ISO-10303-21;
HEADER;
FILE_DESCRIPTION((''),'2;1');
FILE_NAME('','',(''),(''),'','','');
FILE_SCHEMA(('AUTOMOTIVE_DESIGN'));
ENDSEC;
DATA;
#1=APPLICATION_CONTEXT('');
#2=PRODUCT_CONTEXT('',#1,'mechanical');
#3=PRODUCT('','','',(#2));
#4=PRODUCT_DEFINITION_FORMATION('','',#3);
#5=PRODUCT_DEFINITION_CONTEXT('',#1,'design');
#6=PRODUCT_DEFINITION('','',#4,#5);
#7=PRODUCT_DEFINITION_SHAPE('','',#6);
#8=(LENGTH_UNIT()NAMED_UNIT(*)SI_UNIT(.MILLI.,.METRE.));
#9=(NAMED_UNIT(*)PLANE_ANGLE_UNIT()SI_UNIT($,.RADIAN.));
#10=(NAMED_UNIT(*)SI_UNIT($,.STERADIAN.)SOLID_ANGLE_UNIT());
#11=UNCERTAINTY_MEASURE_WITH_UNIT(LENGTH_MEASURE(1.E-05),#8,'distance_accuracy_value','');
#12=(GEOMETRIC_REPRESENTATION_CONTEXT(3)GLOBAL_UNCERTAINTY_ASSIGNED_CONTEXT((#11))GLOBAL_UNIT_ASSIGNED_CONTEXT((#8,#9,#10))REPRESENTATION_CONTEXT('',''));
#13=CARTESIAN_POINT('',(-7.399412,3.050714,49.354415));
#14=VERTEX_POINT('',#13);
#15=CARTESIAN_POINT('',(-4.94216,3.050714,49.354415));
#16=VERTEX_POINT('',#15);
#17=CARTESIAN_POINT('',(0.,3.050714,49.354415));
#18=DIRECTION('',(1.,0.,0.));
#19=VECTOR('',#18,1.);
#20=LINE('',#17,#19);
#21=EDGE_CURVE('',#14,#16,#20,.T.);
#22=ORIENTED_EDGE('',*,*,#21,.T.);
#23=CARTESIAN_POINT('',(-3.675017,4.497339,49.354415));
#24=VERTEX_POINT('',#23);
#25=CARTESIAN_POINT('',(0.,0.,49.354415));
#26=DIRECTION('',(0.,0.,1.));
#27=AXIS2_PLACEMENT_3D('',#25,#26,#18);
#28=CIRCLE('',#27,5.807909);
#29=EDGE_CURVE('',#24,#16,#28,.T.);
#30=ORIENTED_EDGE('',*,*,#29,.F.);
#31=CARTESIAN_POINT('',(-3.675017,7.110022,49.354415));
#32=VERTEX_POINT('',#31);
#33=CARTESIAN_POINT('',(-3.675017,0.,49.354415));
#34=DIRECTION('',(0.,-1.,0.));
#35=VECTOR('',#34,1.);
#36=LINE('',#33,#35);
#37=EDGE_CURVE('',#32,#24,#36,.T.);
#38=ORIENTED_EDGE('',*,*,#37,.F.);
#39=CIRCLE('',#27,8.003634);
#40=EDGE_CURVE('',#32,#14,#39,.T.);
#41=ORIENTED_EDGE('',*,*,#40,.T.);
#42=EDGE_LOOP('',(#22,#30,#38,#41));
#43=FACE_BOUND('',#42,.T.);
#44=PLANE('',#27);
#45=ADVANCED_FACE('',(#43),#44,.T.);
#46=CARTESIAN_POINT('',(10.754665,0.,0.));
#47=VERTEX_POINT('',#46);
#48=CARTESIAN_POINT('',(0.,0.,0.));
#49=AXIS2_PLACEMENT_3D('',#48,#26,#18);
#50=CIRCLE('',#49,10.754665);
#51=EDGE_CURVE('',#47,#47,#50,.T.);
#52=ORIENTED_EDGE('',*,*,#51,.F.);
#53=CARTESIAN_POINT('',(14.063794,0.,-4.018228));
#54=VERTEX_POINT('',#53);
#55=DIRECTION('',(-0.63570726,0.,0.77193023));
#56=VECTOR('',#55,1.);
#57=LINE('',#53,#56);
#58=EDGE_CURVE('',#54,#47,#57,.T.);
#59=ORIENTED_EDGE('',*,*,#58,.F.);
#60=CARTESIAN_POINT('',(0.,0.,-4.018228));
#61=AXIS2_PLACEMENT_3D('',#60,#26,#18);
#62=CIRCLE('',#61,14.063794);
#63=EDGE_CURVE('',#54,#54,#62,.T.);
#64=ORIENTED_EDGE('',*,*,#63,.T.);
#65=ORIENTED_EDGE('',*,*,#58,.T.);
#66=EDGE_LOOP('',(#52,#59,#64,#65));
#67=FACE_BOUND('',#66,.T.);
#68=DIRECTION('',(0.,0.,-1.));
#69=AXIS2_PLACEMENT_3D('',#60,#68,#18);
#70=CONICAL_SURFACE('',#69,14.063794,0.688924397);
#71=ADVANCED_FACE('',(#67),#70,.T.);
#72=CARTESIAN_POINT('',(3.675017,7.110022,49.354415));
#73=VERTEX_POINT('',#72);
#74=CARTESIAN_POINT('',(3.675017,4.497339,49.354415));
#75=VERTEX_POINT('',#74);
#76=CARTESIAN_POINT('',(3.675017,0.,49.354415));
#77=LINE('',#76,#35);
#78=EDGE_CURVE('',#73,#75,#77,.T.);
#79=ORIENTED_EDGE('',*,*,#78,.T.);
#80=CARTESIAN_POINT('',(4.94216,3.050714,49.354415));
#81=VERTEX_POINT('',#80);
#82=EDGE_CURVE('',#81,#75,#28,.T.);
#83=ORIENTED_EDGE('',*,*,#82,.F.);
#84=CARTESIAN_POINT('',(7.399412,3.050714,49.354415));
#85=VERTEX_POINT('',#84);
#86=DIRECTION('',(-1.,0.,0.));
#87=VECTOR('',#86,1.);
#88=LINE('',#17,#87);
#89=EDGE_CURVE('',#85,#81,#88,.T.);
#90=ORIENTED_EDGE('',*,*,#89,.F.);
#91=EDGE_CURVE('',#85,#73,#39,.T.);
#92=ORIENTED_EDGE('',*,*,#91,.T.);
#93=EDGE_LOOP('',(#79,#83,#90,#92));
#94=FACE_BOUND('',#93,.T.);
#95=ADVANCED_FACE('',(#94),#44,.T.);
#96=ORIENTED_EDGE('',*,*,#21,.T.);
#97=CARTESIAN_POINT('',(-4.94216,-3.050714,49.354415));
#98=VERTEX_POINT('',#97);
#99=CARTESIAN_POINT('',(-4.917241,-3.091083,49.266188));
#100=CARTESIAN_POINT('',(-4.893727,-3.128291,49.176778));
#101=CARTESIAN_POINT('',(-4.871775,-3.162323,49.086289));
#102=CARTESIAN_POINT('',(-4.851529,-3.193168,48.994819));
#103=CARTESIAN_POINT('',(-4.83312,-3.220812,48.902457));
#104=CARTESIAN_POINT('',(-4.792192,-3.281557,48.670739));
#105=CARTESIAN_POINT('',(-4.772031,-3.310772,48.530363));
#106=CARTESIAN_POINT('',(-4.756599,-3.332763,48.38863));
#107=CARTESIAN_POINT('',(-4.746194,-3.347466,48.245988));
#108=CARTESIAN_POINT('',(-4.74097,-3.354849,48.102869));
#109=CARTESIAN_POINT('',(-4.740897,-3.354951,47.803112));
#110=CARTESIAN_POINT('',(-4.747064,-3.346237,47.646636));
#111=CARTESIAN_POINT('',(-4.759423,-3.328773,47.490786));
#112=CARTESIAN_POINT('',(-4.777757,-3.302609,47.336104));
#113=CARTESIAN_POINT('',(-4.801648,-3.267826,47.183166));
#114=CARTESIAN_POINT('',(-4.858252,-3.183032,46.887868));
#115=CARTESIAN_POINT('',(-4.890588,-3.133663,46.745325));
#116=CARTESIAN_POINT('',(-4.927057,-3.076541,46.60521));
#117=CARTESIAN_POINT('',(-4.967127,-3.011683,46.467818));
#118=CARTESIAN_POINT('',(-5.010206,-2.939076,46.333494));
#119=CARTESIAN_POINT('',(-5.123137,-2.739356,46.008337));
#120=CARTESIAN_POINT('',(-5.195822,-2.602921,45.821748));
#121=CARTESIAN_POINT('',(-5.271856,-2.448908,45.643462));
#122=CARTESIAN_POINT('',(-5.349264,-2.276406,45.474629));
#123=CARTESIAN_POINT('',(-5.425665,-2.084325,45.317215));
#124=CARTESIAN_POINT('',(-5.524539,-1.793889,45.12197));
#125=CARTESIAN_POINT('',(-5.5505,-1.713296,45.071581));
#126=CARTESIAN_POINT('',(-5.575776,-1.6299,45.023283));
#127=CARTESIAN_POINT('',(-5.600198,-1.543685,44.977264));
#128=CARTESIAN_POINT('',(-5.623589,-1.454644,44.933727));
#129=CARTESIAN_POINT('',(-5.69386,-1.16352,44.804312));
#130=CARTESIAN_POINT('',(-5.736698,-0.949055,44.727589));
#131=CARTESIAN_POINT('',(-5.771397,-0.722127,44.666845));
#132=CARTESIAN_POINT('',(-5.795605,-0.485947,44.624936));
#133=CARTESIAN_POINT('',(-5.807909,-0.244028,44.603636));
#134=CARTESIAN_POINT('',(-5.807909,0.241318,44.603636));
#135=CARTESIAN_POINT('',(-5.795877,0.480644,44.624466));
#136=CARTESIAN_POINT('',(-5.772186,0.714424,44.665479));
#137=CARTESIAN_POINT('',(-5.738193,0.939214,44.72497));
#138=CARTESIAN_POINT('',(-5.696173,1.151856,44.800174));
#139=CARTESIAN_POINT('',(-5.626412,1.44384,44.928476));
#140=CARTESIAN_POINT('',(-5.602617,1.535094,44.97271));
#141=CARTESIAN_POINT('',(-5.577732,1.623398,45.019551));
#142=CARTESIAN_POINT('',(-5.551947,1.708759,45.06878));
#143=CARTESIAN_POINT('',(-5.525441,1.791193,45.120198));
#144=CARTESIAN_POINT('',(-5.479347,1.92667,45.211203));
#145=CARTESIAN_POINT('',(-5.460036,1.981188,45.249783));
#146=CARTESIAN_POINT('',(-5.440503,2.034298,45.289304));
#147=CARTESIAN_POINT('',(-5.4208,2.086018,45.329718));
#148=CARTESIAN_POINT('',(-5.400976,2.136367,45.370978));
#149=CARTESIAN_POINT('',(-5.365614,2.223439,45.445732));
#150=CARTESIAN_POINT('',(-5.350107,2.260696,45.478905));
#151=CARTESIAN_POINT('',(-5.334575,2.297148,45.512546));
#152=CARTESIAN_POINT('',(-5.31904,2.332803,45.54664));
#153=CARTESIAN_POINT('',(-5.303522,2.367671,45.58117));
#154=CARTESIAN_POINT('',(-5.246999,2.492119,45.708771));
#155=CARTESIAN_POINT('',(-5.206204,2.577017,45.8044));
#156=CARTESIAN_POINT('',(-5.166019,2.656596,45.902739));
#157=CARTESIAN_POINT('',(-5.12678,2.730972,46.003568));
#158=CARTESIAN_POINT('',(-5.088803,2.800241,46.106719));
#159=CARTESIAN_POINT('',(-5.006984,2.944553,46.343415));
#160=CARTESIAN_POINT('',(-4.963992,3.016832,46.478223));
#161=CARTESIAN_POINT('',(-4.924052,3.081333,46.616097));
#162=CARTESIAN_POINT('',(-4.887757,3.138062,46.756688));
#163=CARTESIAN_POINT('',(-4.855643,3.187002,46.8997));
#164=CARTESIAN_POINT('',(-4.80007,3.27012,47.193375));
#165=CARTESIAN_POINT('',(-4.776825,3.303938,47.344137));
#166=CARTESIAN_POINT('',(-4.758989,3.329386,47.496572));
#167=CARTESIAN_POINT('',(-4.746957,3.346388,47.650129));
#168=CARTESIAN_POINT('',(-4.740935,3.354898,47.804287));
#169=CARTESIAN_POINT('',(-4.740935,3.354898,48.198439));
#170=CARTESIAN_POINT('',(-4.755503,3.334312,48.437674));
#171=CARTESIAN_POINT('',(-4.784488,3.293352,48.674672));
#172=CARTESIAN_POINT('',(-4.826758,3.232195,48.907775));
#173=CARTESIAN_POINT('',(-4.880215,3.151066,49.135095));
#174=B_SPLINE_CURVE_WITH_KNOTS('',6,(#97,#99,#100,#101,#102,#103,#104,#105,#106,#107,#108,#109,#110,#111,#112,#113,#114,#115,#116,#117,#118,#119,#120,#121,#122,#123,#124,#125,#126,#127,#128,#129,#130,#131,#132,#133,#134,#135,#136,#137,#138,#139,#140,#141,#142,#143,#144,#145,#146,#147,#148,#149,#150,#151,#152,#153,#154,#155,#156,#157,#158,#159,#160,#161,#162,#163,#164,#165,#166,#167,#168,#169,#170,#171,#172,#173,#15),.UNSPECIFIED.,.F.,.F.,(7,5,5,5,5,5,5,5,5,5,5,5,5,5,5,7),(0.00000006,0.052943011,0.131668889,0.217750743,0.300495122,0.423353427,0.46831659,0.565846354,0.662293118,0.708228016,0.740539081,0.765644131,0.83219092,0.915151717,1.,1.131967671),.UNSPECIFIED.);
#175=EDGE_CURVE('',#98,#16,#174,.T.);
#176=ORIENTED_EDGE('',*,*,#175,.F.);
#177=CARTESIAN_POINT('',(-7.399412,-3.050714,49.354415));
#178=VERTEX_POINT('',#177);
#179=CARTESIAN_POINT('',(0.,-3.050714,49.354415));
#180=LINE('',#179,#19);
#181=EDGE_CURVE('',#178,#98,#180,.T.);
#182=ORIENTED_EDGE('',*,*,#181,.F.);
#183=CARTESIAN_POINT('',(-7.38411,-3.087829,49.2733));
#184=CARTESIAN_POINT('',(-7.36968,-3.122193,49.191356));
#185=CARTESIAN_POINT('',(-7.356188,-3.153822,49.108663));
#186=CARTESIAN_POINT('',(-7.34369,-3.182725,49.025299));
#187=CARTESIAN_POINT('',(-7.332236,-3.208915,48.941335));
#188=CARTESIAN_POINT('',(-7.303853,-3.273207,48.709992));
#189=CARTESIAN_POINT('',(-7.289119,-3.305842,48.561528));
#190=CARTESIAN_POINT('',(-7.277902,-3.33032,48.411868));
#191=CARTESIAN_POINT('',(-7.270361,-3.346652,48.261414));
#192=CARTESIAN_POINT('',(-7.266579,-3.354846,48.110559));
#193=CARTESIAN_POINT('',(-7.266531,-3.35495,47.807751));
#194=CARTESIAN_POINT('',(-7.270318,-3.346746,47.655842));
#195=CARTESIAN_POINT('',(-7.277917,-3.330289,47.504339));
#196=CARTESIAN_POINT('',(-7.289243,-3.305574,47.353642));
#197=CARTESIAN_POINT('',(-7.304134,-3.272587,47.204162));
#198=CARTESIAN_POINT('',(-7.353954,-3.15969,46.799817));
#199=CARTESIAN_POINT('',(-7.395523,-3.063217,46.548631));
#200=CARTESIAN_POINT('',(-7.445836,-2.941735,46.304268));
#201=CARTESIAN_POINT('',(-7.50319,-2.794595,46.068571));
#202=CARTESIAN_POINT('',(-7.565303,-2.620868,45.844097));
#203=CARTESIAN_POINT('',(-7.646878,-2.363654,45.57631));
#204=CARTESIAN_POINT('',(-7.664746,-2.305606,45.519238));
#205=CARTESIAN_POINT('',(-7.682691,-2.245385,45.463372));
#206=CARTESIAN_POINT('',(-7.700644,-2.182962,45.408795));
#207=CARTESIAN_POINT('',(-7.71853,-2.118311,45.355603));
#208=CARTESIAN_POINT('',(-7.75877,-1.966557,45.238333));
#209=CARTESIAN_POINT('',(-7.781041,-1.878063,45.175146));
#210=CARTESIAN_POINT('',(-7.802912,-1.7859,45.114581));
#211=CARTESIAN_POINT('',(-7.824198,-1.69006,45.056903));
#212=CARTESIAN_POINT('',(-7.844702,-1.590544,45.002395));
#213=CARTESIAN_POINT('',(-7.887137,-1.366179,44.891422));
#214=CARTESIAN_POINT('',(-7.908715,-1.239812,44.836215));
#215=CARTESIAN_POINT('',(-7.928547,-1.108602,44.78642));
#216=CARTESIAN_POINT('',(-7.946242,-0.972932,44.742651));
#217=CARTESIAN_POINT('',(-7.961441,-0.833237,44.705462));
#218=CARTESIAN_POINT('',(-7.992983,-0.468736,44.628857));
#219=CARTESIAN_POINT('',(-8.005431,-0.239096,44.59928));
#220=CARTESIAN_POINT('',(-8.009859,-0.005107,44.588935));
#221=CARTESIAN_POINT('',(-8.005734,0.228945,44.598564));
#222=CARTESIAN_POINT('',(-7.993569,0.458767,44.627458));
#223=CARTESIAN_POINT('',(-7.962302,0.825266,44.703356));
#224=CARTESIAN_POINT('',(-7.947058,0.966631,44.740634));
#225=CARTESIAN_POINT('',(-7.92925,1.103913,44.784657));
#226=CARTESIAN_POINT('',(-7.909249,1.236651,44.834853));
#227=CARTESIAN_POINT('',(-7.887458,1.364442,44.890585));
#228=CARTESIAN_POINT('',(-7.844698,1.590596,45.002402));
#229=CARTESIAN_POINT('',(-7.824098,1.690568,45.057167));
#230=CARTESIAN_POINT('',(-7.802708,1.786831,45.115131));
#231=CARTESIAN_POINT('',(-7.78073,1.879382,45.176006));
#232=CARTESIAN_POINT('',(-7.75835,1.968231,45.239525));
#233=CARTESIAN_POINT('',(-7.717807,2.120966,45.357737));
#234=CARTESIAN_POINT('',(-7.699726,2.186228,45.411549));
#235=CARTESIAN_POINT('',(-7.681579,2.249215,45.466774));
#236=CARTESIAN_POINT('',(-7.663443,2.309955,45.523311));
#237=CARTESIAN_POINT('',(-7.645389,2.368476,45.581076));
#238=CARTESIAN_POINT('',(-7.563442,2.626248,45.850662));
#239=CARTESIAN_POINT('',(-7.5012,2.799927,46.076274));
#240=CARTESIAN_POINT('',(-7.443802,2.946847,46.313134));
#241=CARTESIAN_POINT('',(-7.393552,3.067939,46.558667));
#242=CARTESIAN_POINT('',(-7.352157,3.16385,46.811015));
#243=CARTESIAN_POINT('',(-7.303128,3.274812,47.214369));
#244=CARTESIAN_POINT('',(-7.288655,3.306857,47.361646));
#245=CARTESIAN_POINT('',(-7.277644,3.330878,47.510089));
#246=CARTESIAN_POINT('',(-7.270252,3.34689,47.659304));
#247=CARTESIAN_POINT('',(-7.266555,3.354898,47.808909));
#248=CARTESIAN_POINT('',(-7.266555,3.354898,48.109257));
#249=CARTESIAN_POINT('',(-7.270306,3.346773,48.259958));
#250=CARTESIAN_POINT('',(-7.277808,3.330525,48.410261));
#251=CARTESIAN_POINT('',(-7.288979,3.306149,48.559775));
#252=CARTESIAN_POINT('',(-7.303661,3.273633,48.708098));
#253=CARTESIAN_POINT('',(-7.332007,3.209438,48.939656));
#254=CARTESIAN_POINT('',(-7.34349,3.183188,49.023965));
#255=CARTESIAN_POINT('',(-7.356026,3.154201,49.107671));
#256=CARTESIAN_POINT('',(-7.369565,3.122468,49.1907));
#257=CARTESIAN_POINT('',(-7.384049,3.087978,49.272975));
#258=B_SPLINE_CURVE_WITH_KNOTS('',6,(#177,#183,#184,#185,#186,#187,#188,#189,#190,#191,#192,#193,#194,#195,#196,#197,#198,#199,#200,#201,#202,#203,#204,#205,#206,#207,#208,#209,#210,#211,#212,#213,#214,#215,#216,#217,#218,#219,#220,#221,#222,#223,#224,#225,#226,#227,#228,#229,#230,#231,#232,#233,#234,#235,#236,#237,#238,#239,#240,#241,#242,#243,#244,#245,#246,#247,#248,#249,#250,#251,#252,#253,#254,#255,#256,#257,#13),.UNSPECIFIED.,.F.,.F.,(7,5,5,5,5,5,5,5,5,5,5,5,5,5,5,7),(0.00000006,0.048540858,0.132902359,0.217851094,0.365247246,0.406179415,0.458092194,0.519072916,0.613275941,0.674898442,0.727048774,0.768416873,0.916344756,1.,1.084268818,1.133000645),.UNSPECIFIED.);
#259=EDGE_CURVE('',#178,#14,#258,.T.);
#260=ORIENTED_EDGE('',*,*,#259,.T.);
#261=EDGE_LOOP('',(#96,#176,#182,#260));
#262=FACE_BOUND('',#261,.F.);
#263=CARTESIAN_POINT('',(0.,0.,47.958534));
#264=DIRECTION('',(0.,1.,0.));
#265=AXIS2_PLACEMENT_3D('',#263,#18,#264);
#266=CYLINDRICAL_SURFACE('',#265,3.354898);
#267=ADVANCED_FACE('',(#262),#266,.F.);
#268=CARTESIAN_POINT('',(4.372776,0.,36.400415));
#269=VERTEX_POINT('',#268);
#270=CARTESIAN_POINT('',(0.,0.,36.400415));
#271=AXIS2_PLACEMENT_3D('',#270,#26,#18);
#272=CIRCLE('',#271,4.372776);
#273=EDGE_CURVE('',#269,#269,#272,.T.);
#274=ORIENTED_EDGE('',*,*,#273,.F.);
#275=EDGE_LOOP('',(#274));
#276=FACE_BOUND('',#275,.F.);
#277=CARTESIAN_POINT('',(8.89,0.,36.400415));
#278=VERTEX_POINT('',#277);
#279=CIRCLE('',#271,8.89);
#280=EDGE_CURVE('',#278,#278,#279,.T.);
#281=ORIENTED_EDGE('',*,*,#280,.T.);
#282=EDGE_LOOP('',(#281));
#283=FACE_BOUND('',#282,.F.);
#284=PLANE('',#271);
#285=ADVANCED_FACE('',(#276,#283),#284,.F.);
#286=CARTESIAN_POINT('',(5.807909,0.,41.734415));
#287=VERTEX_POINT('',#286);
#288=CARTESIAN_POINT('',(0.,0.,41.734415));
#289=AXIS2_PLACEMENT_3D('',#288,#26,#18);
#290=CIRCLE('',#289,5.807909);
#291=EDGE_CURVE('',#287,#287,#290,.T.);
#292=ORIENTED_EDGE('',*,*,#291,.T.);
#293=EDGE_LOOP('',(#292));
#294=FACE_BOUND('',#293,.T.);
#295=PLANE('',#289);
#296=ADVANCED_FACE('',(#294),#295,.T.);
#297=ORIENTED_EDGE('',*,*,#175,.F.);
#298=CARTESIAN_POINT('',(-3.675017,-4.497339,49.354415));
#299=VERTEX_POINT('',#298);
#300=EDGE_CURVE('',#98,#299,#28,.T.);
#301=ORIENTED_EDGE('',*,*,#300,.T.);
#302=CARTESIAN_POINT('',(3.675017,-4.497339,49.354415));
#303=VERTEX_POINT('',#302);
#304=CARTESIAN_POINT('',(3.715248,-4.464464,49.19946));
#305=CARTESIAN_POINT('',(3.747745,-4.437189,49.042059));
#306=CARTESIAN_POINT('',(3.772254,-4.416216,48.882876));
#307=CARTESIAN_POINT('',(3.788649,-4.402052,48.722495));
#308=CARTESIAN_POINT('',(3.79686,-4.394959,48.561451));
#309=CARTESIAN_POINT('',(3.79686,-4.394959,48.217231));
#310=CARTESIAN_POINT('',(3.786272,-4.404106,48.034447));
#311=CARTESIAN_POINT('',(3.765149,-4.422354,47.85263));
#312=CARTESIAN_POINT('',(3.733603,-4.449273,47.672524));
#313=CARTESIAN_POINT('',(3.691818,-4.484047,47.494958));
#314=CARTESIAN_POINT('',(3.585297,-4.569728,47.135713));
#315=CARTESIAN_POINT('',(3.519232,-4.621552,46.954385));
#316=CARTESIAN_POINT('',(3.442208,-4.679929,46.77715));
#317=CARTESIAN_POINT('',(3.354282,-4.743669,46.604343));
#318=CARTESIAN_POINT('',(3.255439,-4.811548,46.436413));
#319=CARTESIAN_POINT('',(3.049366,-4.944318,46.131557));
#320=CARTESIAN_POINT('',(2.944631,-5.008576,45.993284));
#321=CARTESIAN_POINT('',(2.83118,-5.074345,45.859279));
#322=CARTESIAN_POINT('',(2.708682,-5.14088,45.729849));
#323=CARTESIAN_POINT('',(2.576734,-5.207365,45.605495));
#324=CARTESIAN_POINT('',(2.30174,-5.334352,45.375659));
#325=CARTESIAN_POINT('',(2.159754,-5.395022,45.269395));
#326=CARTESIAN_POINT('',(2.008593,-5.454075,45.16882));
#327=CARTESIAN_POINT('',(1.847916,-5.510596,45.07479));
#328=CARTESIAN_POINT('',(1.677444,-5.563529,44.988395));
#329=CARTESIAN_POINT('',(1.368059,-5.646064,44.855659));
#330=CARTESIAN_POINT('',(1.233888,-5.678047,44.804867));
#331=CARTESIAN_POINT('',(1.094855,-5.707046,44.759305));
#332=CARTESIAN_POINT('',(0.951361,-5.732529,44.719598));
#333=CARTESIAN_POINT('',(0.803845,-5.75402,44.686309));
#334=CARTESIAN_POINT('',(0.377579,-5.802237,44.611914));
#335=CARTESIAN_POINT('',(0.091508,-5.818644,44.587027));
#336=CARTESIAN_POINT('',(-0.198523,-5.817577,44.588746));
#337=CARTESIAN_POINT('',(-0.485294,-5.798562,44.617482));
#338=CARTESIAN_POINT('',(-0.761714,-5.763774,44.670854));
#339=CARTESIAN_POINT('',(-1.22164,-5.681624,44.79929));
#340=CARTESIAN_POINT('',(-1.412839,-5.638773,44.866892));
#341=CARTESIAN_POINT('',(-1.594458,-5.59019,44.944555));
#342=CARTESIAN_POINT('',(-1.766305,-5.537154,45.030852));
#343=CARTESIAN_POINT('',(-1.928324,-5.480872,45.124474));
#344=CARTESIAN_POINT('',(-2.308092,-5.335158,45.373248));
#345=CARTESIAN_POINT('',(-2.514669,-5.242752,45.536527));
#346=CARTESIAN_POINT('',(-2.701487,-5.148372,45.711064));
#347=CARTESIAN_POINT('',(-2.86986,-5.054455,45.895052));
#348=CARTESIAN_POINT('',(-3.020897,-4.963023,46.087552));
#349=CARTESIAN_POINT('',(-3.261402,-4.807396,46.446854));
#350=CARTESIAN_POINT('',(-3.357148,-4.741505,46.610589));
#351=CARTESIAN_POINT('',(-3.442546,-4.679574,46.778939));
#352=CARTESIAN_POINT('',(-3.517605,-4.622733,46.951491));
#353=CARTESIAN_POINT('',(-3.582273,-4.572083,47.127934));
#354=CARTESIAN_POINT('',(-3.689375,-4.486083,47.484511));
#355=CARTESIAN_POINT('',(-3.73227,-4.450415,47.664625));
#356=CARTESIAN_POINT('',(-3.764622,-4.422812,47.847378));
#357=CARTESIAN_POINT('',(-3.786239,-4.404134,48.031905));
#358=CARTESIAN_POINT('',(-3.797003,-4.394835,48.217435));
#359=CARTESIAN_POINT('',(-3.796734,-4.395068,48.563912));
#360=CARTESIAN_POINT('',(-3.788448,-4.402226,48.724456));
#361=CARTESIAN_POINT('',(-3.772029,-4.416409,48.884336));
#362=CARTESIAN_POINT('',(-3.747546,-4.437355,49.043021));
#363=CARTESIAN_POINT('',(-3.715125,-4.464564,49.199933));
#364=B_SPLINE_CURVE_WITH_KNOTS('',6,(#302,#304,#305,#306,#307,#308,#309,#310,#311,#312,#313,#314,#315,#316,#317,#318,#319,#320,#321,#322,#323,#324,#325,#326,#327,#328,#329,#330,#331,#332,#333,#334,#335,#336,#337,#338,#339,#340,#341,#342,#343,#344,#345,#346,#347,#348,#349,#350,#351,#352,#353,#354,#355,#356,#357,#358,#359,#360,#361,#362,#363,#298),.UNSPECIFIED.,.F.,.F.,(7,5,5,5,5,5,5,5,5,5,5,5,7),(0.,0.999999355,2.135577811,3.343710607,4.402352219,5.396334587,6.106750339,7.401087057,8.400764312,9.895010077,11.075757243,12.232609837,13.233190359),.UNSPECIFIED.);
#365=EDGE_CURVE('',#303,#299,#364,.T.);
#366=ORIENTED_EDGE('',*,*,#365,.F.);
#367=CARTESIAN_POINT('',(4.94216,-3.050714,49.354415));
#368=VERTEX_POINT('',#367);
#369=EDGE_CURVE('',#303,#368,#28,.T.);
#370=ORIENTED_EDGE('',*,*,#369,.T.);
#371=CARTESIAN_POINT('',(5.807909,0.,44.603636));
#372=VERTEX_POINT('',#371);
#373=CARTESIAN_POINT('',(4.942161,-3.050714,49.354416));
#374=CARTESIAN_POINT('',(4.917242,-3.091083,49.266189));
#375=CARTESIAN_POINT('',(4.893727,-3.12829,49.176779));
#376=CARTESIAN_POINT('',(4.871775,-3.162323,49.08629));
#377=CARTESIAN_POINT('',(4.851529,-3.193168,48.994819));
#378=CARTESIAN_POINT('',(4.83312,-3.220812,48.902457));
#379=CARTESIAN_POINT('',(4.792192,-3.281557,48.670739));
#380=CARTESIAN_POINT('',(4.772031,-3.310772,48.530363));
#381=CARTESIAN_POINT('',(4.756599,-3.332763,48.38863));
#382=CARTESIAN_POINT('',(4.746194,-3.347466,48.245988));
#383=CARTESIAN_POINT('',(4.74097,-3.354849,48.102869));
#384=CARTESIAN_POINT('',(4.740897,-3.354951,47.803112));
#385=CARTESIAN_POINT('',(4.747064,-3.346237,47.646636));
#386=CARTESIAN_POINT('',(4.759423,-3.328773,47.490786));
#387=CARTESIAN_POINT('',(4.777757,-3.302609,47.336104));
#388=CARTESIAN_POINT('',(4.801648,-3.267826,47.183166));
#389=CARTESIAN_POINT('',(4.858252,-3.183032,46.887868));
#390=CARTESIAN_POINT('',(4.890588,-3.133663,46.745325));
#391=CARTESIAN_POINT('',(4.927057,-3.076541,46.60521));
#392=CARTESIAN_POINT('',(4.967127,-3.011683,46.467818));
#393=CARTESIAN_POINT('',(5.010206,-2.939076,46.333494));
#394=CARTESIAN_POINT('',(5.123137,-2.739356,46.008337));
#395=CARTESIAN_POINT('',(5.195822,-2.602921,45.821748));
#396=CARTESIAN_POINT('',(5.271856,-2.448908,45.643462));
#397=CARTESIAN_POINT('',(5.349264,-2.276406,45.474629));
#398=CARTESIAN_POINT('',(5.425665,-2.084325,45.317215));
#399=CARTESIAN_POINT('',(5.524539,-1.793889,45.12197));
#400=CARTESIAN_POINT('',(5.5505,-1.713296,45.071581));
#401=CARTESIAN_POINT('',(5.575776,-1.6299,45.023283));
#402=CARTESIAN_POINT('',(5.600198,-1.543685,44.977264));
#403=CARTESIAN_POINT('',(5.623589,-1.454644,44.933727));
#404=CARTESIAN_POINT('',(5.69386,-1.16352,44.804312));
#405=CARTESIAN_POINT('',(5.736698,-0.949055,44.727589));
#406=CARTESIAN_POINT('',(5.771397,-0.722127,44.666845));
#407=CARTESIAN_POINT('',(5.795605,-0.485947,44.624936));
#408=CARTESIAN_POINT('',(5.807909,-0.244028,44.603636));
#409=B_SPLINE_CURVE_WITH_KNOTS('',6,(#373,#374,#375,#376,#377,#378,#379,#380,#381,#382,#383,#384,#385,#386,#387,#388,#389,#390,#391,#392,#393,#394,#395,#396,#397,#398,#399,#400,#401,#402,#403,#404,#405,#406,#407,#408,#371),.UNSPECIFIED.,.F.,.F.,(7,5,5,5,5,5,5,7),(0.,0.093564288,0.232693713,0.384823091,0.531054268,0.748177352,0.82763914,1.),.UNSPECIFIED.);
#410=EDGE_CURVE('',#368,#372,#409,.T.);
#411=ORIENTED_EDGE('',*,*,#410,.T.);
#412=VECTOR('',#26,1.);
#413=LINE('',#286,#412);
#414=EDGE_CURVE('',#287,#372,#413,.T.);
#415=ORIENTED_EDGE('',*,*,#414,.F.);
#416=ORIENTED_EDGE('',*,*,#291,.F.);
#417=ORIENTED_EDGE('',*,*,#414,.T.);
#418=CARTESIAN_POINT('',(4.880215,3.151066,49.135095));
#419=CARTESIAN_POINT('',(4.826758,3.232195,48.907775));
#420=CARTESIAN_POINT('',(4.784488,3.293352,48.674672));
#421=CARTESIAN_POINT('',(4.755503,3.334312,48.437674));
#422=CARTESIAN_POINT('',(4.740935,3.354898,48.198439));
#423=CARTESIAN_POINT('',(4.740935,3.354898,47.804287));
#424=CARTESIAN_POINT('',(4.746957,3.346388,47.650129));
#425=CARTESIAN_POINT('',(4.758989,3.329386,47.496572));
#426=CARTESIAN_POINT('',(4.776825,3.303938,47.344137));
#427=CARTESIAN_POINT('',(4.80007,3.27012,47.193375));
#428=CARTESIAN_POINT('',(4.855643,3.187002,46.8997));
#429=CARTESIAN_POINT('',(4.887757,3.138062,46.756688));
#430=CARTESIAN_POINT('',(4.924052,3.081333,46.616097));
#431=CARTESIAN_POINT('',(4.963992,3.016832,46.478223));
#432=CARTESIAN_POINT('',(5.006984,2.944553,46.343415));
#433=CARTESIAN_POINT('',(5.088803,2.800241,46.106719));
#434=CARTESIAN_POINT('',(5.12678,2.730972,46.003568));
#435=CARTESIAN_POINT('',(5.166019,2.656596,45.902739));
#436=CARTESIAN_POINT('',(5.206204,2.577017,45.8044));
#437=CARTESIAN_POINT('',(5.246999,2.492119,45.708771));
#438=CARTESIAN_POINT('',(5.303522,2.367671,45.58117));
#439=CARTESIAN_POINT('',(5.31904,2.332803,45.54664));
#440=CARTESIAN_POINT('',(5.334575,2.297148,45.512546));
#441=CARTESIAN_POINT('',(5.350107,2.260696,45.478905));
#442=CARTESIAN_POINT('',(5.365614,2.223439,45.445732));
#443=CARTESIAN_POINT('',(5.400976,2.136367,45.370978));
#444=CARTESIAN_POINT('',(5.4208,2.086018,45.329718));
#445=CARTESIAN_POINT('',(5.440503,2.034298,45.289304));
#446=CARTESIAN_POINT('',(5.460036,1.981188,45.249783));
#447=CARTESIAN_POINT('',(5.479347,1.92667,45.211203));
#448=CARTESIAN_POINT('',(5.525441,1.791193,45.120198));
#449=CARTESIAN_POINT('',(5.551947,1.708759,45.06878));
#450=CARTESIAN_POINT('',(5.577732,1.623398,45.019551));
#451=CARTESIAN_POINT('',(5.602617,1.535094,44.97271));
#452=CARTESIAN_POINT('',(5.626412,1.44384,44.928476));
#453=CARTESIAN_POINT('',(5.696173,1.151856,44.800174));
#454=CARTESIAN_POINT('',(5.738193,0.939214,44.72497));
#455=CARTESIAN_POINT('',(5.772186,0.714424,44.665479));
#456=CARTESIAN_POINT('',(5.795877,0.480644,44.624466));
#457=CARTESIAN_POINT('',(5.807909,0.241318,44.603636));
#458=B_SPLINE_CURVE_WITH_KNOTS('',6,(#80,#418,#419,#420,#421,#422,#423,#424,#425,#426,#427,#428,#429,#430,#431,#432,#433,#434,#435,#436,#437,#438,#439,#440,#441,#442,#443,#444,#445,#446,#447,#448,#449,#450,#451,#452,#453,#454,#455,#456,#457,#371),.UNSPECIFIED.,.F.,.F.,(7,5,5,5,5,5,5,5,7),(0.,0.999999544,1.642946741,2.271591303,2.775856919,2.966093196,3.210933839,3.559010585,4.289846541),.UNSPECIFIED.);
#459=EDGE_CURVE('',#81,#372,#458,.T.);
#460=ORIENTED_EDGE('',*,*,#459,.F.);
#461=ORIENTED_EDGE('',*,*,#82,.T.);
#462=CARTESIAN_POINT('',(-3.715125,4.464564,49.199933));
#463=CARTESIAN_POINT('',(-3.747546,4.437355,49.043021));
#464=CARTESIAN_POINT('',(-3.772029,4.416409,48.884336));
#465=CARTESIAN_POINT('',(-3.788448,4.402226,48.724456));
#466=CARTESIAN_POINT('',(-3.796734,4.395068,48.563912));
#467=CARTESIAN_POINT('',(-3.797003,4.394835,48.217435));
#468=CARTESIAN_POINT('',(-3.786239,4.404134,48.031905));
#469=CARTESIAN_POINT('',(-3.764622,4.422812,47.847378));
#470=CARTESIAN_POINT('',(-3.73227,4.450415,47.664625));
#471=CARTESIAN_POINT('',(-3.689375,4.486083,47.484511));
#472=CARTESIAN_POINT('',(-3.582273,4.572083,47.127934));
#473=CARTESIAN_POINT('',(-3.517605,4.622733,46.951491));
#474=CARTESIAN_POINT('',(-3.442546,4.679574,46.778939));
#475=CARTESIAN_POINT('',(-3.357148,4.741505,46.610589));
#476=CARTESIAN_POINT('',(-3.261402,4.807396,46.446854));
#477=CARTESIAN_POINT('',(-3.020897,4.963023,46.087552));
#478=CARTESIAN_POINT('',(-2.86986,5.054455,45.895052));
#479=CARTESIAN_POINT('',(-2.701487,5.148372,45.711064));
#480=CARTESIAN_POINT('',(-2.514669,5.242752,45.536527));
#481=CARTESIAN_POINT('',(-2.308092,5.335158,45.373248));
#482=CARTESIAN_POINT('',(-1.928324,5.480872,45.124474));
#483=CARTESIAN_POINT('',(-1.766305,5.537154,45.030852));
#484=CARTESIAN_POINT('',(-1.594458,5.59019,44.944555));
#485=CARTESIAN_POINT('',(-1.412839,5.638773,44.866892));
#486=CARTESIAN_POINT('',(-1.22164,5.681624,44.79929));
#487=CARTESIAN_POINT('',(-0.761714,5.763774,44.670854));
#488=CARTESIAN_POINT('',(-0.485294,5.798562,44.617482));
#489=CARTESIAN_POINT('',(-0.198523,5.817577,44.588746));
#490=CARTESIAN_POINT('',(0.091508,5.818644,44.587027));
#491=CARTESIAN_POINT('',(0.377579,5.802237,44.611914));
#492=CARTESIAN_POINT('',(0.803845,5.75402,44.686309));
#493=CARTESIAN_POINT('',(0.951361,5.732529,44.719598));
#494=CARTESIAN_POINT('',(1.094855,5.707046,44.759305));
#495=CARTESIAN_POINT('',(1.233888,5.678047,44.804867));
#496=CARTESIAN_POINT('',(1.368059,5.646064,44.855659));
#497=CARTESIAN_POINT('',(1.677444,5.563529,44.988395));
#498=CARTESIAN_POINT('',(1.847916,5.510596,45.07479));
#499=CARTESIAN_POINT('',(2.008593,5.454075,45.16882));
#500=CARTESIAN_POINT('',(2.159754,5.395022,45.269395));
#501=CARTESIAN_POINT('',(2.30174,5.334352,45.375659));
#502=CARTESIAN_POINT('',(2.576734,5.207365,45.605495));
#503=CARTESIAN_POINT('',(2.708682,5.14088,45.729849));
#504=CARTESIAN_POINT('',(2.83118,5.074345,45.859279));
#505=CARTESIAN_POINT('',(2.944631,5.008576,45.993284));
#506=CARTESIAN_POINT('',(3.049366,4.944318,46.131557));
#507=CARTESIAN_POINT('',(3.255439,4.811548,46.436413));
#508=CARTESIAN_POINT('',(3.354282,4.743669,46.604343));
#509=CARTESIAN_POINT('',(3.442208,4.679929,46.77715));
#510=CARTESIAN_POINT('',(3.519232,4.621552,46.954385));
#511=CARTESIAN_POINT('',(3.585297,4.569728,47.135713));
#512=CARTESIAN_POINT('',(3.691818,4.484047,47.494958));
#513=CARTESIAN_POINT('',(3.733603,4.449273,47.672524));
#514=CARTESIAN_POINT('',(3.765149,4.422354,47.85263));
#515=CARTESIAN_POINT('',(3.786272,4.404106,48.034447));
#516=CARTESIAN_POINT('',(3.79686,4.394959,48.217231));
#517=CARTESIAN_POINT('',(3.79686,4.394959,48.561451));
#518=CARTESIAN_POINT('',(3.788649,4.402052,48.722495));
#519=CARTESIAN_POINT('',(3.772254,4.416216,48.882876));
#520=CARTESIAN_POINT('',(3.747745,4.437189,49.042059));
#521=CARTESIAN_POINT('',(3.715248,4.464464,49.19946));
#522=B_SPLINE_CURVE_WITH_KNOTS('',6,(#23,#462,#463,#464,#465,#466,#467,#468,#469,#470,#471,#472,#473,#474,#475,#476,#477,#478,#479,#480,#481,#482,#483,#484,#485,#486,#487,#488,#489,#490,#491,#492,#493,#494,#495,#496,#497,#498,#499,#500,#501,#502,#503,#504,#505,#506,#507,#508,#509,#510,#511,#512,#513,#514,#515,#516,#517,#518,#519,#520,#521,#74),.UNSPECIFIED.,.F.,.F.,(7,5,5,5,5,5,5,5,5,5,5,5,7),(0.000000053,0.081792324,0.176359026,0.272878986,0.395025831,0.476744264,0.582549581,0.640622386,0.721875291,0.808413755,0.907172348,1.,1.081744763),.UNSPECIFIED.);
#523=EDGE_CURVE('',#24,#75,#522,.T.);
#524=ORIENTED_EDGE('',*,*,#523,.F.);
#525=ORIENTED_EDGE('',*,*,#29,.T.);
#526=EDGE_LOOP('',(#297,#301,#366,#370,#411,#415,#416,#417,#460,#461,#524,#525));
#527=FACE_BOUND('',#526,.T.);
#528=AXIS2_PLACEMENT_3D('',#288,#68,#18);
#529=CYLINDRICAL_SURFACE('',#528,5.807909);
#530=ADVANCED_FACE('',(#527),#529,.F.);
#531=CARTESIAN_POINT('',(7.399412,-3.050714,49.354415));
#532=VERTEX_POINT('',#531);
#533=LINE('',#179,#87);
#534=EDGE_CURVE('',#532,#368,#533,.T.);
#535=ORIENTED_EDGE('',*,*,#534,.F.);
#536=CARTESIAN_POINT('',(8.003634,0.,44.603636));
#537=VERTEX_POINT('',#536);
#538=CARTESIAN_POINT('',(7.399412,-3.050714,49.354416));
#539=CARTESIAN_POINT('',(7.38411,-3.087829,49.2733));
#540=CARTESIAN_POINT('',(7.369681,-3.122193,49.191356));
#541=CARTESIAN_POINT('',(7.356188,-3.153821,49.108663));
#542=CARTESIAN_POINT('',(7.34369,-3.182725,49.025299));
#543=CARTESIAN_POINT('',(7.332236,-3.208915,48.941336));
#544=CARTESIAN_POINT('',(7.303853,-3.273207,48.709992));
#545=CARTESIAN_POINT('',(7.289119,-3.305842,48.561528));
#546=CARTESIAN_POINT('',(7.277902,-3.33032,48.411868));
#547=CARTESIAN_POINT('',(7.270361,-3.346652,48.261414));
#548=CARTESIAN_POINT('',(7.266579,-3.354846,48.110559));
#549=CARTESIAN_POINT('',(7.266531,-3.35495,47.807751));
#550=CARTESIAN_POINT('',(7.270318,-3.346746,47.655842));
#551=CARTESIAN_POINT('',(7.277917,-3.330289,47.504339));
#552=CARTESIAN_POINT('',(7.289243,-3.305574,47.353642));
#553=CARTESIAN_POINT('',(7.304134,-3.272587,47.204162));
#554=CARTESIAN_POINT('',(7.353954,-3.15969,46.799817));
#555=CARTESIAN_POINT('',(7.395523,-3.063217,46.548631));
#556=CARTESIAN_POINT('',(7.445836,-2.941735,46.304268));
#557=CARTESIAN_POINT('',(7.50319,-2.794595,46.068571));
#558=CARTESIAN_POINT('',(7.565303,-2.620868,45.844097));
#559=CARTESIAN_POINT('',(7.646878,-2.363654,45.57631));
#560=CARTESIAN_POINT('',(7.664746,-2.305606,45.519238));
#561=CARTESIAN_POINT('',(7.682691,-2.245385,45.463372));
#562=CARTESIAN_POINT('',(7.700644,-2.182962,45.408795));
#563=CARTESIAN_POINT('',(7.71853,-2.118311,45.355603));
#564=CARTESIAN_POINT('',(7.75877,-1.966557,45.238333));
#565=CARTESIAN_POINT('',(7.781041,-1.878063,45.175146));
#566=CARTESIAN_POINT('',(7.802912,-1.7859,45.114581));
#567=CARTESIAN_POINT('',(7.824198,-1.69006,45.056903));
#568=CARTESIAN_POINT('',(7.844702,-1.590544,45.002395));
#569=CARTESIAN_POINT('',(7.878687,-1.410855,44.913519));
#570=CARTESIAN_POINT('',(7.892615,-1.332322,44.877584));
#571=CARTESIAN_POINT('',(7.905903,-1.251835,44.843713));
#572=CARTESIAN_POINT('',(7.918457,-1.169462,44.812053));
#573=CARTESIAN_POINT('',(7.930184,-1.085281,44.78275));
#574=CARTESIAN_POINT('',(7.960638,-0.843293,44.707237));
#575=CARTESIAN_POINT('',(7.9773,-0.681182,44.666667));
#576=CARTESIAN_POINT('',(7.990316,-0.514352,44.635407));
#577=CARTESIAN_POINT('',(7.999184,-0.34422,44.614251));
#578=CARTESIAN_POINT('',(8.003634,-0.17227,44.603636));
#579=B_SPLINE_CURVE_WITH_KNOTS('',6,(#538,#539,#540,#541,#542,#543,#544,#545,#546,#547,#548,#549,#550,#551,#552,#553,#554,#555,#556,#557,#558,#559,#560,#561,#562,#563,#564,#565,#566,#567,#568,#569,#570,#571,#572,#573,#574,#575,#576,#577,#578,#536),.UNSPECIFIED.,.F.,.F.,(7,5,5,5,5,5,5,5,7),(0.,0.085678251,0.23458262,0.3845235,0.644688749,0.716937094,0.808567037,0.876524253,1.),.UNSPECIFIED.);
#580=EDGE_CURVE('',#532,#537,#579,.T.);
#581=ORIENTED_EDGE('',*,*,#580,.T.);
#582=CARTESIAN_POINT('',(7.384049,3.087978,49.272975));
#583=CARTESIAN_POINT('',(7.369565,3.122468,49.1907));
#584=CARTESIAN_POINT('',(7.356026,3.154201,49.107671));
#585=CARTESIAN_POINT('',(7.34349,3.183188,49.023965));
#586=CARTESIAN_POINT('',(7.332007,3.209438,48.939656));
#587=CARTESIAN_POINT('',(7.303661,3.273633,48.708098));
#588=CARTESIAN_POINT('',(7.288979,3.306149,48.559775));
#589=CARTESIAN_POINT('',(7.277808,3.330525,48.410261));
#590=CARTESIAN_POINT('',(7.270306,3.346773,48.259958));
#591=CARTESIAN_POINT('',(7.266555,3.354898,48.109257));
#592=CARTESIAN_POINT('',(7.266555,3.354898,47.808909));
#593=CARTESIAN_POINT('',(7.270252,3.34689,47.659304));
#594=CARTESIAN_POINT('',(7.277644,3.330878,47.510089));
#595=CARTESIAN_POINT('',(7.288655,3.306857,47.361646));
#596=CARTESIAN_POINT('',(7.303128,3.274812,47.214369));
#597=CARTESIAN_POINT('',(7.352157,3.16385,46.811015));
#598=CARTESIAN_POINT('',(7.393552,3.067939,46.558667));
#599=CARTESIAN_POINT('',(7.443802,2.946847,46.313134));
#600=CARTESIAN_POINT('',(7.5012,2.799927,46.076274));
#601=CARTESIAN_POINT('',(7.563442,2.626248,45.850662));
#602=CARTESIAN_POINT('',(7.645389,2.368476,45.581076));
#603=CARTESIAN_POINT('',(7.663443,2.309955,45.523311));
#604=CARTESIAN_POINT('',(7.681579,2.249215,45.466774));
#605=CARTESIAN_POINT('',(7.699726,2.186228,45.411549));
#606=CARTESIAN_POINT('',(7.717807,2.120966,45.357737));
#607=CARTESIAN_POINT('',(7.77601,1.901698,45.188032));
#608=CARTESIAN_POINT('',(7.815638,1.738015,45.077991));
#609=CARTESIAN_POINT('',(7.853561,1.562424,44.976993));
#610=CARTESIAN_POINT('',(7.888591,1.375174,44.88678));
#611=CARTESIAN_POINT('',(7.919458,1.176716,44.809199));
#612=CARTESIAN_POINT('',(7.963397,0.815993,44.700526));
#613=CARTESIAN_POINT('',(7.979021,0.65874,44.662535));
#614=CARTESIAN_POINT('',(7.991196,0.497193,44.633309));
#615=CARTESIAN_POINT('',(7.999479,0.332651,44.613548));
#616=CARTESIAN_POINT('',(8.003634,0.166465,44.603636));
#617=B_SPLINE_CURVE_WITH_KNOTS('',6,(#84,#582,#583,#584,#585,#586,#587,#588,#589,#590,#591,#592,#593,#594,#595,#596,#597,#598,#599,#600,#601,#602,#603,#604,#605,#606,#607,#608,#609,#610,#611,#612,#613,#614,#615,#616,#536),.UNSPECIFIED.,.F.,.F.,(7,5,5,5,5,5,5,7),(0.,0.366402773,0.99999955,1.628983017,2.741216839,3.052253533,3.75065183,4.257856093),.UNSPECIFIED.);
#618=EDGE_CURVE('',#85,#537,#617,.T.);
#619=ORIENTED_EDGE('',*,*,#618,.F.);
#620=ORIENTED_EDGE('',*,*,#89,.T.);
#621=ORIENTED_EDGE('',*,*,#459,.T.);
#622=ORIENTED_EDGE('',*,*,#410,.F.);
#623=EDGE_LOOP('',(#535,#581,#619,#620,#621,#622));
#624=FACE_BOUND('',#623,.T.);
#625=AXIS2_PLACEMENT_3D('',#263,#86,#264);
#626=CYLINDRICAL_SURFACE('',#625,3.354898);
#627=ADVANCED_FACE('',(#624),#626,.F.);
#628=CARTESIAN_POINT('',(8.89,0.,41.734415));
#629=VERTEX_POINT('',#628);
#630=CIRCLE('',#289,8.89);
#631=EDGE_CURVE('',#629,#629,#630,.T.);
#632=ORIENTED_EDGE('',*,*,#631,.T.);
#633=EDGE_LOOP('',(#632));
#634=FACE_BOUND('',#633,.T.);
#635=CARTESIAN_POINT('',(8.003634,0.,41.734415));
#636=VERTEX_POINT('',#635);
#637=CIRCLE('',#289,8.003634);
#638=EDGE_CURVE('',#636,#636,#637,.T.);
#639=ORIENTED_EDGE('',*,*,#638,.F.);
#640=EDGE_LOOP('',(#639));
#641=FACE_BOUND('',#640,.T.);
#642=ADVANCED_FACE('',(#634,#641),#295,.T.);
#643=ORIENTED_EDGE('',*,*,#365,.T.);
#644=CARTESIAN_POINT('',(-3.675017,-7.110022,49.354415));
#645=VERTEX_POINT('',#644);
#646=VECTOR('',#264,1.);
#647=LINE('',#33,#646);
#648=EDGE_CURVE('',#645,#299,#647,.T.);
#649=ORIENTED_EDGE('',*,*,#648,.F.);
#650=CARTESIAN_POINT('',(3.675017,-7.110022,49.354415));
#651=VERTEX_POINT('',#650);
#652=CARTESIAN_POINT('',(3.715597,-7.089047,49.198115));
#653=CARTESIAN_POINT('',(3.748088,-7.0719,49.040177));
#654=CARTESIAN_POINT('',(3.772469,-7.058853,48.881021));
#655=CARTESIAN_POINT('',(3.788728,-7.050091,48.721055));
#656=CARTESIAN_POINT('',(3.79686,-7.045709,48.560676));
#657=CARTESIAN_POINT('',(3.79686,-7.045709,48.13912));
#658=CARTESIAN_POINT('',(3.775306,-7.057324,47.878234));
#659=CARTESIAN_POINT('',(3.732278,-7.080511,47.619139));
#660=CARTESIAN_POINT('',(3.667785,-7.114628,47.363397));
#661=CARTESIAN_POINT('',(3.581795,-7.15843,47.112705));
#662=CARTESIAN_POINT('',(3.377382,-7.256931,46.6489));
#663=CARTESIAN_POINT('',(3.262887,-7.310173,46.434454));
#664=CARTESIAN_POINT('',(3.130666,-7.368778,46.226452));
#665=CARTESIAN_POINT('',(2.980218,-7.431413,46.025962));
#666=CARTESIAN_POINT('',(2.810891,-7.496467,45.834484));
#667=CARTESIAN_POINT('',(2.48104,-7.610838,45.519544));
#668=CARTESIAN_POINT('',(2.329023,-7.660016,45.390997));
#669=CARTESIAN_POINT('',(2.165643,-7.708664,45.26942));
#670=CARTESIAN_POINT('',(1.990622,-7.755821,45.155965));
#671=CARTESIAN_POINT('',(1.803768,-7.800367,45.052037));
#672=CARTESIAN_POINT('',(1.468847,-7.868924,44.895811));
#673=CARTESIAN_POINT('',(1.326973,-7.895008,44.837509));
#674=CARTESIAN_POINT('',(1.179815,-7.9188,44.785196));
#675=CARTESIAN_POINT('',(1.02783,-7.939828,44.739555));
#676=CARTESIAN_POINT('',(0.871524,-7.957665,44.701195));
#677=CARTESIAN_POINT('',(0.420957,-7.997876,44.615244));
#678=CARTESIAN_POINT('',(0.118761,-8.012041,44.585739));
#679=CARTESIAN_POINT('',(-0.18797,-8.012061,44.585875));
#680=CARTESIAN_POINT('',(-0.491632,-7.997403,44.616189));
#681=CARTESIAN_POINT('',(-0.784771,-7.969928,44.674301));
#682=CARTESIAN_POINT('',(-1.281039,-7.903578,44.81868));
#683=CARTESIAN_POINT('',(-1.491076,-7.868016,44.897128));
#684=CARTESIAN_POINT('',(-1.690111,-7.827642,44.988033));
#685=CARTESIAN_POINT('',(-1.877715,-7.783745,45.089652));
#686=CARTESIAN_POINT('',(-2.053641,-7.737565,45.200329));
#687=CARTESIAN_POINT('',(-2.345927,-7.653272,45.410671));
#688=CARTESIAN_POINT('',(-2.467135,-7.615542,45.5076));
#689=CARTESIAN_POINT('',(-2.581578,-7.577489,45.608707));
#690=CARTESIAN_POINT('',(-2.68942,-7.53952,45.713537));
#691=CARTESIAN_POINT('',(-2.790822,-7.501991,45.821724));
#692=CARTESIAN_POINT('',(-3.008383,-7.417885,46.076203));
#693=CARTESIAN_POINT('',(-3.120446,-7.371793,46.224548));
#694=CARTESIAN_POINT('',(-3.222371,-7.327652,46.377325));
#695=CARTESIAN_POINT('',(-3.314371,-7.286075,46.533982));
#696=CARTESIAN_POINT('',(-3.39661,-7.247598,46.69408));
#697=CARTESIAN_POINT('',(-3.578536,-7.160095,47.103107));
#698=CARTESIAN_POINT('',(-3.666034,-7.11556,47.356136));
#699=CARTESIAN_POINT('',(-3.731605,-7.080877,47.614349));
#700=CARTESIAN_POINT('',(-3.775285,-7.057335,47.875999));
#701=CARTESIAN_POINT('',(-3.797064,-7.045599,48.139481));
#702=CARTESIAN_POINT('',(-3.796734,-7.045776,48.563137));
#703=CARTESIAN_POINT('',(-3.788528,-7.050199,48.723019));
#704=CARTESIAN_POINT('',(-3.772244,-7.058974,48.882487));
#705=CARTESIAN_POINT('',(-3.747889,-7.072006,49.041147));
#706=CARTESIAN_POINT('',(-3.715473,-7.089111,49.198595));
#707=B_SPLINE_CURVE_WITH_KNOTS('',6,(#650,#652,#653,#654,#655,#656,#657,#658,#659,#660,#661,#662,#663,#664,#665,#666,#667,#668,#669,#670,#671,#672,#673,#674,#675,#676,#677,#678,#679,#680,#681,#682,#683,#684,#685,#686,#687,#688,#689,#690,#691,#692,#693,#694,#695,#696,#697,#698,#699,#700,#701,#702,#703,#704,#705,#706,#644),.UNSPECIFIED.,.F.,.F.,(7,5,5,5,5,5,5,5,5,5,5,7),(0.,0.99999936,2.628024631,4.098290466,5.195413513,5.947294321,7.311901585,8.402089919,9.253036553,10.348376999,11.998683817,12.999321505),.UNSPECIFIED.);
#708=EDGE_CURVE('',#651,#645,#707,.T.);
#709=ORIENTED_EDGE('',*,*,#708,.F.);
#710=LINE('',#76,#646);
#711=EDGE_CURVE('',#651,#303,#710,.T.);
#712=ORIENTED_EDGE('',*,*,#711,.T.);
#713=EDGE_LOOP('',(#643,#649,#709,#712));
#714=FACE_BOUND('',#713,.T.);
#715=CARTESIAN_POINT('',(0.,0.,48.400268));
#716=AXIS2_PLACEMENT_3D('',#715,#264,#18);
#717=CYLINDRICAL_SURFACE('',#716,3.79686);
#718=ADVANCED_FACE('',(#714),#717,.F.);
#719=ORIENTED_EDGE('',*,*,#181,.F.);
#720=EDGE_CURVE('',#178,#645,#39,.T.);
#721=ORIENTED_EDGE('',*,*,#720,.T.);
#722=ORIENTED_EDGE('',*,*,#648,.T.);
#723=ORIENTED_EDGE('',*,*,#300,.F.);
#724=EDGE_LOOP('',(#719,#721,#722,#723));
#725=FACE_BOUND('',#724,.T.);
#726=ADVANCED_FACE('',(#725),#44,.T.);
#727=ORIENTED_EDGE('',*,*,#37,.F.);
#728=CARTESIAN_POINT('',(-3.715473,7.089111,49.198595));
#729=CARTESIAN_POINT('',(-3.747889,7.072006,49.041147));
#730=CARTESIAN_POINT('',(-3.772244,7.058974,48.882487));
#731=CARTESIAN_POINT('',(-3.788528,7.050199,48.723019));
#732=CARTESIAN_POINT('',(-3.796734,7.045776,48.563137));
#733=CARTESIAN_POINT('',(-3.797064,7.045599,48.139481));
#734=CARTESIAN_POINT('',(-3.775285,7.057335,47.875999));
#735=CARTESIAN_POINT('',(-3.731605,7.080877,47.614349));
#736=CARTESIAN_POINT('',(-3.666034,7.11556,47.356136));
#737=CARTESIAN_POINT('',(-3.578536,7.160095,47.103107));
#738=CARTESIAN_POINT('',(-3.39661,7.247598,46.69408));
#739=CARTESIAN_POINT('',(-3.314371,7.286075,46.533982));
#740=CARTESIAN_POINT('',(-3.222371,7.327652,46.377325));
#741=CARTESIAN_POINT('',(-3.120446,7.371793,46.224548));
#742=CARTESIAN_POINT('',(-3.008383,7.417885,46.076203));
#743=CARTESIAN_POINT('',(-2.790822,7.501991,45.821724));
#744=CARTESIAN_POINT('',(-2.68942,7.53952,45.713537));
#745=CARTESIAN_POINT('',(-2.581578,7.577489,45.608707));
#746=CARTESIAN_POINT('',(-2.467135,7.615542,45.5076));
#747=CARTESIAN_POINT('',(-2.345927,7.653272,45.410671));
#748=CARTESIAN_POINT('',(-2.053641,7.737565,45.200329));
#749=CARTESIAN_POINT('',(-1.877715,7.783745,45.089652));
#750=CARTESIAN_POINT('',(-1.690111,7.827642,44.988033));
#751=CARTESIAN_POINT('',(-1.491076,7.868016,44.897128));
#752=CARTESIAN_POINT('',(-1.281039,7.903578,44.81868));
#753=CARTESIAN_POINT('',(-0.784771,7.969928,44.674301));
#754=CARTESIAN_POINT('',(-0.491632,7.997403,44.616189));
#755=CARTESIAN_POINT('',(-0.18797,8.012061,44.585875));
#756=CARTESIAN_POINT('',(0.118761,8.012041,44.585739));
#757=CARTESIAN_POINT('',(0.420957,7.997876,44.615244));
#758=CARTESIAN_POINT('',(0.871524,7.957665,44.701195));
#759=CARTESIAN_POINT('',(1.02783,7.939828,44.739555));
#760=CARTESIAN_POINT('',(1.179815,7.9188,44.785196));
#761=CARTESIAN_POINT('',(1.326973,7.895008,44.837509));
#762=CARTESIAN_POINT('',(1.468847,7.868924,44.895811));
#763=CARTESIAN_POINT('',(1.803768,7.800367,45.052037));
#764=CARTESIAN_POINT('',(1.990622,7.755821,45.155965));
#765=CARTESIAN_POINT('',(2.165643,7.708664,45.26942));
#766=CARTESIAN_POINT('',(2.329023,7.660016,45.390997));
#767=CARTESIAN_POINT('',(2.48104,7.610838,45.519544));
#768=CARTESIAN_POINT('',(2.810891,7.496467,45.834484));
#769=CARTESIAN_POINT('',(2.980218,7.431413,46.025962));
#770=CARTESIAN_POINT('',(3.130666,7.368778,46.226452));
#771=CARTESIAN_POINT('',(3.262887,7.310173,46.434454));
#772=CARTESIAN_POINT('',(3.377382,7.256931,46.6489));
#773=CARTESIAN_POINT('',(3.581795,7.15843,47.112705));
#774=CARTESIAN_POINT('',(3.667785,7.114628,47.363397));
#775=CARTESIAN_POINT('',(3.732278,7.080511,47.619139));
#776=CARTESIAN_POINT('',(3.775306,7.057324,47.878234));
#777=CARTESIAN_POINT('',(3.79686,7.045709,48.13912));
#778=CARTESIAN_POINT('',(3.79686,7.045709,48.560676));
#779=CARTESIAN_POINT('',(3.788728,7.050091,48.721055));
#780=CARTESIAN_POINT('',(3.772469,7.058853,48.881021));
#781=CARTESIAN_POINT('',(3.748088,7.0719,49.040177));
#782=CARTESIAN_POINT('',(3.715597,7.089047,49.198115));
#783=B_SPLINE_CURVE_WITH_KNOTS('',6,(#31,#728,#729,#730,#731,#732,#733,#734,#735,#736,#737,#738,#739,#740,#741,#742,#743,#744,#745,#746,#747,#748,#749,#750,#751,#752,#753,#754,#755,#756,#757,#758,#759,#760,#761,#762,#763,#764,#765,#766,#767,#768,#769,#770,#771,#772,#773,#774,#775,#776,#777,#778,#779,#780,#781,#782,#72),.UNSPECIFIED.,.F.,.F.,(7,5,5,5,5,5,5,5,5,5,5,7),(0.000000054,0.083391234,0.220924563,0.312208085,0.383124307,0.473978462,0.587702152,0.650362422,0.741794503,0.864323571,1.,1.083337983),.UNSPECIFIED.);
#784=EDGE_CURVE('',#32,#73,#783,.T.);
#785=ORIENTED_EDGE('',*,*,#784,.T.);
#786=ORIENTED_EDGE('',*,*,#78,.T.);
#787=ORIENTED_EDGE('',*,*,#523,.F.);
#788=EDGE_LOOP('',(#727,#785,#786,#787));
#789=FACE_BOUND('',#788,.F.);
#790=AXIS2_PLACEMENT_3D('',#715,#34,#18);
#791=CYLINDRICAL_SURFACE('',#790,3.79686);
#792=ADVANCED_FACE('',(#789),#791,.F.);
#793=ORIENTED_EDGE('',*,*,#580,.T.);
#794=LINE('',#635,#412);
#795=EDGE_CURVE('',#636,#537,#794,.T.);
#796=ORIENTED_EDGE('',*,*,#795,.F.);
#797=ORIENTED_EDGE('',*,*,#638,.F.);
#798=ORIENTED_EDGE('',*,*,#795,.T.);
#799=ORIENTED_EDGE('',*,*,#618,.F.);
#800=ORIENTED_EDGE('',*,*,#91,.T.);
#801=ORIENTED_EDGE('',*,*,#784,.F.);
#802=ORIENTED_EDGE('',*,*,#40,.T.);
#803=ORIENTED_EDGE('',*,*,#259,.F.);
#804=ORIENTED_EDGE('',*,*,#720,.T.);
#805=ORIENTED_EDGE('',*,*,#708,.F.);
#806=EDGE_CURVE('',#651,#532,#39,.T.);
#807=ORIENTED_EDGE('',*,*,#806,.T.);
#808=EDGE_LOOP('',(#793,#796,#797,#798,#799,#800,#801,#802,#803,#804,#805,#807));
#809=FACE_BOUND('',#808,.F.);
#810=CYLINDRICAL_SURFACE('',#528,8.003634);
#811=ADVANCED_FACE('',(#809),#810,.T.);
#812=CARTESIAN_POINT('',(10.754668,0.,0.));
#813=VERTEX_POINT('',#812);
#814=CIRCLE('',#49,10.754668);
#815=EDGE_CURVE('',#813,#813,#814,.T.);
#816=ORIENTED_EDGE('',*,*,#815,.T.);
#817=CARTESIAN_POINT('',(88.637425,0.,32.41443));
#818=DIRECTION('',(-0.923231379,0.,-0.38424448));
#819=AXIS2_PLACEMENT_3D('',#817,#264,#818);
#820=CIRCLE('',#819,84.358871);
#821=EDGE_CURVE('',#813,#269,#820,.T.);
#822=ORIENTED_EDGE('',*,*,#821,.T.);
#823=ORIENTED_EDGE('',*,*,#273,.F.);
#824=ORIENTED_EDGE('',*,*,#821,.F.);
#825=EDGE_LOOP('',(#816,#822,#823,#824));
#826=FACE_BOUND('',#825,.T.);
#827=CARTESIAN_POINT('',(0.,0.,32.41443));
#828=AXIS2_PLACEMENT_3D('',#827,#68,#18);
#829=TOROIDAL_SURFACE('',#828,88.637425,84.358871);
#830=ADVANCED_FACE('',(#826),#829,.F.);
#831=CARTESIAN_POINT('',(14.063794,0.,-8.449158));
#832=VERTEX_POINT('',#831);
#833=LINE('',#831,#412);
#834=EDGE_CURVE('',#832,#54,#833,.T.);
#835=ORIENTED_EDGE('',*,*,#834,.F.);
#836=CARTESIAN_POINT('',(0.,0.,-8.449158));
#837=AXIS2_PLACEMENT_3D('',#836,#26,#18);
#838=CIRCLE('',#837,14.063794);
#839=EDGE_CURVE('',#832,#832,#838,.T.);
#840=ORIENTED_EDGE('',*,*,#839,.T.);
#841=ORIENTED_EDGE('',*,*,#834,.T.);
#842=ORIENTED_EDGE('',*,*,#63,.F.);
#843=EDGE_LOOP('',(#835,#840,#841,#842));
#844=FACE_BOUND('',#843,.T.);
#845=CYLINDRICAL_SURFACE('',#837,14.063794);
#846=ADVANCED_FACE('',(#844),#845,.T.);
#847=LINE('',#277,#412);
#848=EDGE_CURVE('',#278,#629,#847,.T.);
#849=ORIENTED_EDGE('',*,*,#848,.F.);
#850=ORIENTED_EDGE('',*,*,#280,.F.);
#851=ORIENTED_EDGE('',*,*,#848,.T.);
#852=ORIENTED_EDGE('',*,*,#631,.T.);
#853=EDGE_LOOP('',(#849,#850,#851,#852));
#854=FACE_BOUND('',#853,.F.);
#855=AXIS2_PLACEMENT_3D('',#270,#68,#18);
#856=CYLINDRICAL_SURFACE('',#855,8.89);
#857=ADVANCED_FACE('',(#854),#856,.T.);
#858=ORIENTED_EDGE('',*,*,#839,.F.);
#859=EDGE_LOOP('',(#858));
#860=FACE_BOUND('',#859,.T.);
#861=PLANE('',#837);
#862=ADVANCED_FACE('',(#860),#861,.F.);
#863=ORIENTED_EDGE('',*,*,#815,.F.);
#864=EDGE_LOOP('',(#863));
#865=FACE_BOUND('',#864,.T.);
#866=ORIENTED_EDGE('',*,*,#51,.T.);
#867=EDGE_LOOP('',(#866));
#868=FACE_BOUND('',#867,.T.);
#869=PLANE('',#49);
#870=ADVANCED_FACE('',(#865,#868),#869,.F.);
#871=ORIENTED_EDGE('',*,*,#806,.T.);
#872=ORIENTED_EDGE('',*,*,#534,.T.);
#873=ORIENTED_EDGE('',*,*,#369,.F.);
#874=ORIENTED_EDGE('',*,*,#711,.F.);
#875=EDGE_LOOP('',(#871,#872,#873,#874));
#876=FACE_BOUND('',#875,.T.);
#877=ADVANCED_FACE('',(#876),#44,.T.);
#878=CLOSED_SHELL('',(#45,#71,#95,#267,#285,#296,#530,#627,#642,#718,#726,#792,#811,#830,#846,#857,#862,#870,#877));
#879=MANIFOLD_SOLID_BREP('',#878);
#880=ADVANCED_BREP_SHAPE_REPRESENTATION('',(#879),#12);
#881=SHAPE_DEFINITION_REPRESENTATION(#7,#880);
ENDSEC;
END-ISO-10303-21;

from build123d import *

# Parameters (mm, degrees)
F2_W      = 14.063794
F2_H      = 1.89093
F2_H_2    = 2.54
F4_R      = 8.89
F5_DEPTH  = 5.334
F6_R      = 8.003634
F6_R_2    = 5.807909
F7_DEPTH  = 7.62
F8_R      = 3.79686
F9_DEPTH  = 25.4
F10_DEPTH = 98.552
F11_R     = 3.354898
F12_DEPTH = 25.4
F13_DEPTH = 156.972


with BuildPart() as f1:
    # F0 (on Front) → F1 (revolve)
    with BuildSketch(Plane.XZ):
        with BuildLine():
            Line((0, 36.400415), (0, 0))
            Line((0, 0), (10.754668, 0))
            ThreePointArc((10.754668, 0), (5.545952, 17.846443), (4.372776, 36.400415))
            Line((4.372776, 36.400415), (0, 36.400415))
        make_face()
    revolve(axis=Axis((0, 0, 22.225), (0, 0, 1)))

    # F2 (on Front) → F3 (revolve)
    with BuildSketch(Plane.XZ):
        Polygon((10.754665, 0), (0, 0), (0, -4.018228), (14.063794, -4.018228), align=None)
        with Locations((7.031897, -4.963693)):
            Rectangle(F2_W, F2_H)
        with Locations((7.031897, -7.179158)):
            Rectangle(F2_W, F2_H_2)
    revolve(axis=Axis((0, 0, -4.963693), (0, 0, 1)))

    # F4 (on face) → F5 (join)
    with BuildSketch(Plane.XY.offset(36.400415)):
        Circle(F4_R)
    extrude(amount=F5_DEPTH)

    # F6 (on face) → F7 (join)
    with BuildSketch(Plane.XY.offset(41.734415)):
        Circle(F6_R)
        Circle(F6_R_2, mode=Mode.SUBTRACT)
    extrude(amount=F7_DEPTH)

    # F8 (on Front) → F9 (cut)
    with BuildSketch(Plane.XZ):
        with Locations((0, 48.400268)):
            Circle(F8_R)
    extrude(amount=-F9_DEPTH, mode=Mode.SUBTRACT)

    # F8 (on Front) → F10 (cut)
    with BuildSketch(Plane.XZ):
        with Locations((0, 48.400268)):
            Circle(F8_R)
    extrude(amount=F10_DEPTH, mode=Mode.SUBTRACT)

    # F11 (on Right) → F12 (cut)
    with BuildSketch(Plane.YZ):
        with Locations((0, 47.958534)):
            Circle(F11_R)
    extrude(amount=-F12_DEPTH, mode=Mode.SUBTRACT)

    # F11 (on Right) → F13 (cut)
    with BuildSketch(Plane.YZ):
        with Locations((0, 47.958534)):
            Circle(F11_R)
    extrude(amount=F13_DEPTH, mode=Mode.SUBTRACT)


solid = f1.part
